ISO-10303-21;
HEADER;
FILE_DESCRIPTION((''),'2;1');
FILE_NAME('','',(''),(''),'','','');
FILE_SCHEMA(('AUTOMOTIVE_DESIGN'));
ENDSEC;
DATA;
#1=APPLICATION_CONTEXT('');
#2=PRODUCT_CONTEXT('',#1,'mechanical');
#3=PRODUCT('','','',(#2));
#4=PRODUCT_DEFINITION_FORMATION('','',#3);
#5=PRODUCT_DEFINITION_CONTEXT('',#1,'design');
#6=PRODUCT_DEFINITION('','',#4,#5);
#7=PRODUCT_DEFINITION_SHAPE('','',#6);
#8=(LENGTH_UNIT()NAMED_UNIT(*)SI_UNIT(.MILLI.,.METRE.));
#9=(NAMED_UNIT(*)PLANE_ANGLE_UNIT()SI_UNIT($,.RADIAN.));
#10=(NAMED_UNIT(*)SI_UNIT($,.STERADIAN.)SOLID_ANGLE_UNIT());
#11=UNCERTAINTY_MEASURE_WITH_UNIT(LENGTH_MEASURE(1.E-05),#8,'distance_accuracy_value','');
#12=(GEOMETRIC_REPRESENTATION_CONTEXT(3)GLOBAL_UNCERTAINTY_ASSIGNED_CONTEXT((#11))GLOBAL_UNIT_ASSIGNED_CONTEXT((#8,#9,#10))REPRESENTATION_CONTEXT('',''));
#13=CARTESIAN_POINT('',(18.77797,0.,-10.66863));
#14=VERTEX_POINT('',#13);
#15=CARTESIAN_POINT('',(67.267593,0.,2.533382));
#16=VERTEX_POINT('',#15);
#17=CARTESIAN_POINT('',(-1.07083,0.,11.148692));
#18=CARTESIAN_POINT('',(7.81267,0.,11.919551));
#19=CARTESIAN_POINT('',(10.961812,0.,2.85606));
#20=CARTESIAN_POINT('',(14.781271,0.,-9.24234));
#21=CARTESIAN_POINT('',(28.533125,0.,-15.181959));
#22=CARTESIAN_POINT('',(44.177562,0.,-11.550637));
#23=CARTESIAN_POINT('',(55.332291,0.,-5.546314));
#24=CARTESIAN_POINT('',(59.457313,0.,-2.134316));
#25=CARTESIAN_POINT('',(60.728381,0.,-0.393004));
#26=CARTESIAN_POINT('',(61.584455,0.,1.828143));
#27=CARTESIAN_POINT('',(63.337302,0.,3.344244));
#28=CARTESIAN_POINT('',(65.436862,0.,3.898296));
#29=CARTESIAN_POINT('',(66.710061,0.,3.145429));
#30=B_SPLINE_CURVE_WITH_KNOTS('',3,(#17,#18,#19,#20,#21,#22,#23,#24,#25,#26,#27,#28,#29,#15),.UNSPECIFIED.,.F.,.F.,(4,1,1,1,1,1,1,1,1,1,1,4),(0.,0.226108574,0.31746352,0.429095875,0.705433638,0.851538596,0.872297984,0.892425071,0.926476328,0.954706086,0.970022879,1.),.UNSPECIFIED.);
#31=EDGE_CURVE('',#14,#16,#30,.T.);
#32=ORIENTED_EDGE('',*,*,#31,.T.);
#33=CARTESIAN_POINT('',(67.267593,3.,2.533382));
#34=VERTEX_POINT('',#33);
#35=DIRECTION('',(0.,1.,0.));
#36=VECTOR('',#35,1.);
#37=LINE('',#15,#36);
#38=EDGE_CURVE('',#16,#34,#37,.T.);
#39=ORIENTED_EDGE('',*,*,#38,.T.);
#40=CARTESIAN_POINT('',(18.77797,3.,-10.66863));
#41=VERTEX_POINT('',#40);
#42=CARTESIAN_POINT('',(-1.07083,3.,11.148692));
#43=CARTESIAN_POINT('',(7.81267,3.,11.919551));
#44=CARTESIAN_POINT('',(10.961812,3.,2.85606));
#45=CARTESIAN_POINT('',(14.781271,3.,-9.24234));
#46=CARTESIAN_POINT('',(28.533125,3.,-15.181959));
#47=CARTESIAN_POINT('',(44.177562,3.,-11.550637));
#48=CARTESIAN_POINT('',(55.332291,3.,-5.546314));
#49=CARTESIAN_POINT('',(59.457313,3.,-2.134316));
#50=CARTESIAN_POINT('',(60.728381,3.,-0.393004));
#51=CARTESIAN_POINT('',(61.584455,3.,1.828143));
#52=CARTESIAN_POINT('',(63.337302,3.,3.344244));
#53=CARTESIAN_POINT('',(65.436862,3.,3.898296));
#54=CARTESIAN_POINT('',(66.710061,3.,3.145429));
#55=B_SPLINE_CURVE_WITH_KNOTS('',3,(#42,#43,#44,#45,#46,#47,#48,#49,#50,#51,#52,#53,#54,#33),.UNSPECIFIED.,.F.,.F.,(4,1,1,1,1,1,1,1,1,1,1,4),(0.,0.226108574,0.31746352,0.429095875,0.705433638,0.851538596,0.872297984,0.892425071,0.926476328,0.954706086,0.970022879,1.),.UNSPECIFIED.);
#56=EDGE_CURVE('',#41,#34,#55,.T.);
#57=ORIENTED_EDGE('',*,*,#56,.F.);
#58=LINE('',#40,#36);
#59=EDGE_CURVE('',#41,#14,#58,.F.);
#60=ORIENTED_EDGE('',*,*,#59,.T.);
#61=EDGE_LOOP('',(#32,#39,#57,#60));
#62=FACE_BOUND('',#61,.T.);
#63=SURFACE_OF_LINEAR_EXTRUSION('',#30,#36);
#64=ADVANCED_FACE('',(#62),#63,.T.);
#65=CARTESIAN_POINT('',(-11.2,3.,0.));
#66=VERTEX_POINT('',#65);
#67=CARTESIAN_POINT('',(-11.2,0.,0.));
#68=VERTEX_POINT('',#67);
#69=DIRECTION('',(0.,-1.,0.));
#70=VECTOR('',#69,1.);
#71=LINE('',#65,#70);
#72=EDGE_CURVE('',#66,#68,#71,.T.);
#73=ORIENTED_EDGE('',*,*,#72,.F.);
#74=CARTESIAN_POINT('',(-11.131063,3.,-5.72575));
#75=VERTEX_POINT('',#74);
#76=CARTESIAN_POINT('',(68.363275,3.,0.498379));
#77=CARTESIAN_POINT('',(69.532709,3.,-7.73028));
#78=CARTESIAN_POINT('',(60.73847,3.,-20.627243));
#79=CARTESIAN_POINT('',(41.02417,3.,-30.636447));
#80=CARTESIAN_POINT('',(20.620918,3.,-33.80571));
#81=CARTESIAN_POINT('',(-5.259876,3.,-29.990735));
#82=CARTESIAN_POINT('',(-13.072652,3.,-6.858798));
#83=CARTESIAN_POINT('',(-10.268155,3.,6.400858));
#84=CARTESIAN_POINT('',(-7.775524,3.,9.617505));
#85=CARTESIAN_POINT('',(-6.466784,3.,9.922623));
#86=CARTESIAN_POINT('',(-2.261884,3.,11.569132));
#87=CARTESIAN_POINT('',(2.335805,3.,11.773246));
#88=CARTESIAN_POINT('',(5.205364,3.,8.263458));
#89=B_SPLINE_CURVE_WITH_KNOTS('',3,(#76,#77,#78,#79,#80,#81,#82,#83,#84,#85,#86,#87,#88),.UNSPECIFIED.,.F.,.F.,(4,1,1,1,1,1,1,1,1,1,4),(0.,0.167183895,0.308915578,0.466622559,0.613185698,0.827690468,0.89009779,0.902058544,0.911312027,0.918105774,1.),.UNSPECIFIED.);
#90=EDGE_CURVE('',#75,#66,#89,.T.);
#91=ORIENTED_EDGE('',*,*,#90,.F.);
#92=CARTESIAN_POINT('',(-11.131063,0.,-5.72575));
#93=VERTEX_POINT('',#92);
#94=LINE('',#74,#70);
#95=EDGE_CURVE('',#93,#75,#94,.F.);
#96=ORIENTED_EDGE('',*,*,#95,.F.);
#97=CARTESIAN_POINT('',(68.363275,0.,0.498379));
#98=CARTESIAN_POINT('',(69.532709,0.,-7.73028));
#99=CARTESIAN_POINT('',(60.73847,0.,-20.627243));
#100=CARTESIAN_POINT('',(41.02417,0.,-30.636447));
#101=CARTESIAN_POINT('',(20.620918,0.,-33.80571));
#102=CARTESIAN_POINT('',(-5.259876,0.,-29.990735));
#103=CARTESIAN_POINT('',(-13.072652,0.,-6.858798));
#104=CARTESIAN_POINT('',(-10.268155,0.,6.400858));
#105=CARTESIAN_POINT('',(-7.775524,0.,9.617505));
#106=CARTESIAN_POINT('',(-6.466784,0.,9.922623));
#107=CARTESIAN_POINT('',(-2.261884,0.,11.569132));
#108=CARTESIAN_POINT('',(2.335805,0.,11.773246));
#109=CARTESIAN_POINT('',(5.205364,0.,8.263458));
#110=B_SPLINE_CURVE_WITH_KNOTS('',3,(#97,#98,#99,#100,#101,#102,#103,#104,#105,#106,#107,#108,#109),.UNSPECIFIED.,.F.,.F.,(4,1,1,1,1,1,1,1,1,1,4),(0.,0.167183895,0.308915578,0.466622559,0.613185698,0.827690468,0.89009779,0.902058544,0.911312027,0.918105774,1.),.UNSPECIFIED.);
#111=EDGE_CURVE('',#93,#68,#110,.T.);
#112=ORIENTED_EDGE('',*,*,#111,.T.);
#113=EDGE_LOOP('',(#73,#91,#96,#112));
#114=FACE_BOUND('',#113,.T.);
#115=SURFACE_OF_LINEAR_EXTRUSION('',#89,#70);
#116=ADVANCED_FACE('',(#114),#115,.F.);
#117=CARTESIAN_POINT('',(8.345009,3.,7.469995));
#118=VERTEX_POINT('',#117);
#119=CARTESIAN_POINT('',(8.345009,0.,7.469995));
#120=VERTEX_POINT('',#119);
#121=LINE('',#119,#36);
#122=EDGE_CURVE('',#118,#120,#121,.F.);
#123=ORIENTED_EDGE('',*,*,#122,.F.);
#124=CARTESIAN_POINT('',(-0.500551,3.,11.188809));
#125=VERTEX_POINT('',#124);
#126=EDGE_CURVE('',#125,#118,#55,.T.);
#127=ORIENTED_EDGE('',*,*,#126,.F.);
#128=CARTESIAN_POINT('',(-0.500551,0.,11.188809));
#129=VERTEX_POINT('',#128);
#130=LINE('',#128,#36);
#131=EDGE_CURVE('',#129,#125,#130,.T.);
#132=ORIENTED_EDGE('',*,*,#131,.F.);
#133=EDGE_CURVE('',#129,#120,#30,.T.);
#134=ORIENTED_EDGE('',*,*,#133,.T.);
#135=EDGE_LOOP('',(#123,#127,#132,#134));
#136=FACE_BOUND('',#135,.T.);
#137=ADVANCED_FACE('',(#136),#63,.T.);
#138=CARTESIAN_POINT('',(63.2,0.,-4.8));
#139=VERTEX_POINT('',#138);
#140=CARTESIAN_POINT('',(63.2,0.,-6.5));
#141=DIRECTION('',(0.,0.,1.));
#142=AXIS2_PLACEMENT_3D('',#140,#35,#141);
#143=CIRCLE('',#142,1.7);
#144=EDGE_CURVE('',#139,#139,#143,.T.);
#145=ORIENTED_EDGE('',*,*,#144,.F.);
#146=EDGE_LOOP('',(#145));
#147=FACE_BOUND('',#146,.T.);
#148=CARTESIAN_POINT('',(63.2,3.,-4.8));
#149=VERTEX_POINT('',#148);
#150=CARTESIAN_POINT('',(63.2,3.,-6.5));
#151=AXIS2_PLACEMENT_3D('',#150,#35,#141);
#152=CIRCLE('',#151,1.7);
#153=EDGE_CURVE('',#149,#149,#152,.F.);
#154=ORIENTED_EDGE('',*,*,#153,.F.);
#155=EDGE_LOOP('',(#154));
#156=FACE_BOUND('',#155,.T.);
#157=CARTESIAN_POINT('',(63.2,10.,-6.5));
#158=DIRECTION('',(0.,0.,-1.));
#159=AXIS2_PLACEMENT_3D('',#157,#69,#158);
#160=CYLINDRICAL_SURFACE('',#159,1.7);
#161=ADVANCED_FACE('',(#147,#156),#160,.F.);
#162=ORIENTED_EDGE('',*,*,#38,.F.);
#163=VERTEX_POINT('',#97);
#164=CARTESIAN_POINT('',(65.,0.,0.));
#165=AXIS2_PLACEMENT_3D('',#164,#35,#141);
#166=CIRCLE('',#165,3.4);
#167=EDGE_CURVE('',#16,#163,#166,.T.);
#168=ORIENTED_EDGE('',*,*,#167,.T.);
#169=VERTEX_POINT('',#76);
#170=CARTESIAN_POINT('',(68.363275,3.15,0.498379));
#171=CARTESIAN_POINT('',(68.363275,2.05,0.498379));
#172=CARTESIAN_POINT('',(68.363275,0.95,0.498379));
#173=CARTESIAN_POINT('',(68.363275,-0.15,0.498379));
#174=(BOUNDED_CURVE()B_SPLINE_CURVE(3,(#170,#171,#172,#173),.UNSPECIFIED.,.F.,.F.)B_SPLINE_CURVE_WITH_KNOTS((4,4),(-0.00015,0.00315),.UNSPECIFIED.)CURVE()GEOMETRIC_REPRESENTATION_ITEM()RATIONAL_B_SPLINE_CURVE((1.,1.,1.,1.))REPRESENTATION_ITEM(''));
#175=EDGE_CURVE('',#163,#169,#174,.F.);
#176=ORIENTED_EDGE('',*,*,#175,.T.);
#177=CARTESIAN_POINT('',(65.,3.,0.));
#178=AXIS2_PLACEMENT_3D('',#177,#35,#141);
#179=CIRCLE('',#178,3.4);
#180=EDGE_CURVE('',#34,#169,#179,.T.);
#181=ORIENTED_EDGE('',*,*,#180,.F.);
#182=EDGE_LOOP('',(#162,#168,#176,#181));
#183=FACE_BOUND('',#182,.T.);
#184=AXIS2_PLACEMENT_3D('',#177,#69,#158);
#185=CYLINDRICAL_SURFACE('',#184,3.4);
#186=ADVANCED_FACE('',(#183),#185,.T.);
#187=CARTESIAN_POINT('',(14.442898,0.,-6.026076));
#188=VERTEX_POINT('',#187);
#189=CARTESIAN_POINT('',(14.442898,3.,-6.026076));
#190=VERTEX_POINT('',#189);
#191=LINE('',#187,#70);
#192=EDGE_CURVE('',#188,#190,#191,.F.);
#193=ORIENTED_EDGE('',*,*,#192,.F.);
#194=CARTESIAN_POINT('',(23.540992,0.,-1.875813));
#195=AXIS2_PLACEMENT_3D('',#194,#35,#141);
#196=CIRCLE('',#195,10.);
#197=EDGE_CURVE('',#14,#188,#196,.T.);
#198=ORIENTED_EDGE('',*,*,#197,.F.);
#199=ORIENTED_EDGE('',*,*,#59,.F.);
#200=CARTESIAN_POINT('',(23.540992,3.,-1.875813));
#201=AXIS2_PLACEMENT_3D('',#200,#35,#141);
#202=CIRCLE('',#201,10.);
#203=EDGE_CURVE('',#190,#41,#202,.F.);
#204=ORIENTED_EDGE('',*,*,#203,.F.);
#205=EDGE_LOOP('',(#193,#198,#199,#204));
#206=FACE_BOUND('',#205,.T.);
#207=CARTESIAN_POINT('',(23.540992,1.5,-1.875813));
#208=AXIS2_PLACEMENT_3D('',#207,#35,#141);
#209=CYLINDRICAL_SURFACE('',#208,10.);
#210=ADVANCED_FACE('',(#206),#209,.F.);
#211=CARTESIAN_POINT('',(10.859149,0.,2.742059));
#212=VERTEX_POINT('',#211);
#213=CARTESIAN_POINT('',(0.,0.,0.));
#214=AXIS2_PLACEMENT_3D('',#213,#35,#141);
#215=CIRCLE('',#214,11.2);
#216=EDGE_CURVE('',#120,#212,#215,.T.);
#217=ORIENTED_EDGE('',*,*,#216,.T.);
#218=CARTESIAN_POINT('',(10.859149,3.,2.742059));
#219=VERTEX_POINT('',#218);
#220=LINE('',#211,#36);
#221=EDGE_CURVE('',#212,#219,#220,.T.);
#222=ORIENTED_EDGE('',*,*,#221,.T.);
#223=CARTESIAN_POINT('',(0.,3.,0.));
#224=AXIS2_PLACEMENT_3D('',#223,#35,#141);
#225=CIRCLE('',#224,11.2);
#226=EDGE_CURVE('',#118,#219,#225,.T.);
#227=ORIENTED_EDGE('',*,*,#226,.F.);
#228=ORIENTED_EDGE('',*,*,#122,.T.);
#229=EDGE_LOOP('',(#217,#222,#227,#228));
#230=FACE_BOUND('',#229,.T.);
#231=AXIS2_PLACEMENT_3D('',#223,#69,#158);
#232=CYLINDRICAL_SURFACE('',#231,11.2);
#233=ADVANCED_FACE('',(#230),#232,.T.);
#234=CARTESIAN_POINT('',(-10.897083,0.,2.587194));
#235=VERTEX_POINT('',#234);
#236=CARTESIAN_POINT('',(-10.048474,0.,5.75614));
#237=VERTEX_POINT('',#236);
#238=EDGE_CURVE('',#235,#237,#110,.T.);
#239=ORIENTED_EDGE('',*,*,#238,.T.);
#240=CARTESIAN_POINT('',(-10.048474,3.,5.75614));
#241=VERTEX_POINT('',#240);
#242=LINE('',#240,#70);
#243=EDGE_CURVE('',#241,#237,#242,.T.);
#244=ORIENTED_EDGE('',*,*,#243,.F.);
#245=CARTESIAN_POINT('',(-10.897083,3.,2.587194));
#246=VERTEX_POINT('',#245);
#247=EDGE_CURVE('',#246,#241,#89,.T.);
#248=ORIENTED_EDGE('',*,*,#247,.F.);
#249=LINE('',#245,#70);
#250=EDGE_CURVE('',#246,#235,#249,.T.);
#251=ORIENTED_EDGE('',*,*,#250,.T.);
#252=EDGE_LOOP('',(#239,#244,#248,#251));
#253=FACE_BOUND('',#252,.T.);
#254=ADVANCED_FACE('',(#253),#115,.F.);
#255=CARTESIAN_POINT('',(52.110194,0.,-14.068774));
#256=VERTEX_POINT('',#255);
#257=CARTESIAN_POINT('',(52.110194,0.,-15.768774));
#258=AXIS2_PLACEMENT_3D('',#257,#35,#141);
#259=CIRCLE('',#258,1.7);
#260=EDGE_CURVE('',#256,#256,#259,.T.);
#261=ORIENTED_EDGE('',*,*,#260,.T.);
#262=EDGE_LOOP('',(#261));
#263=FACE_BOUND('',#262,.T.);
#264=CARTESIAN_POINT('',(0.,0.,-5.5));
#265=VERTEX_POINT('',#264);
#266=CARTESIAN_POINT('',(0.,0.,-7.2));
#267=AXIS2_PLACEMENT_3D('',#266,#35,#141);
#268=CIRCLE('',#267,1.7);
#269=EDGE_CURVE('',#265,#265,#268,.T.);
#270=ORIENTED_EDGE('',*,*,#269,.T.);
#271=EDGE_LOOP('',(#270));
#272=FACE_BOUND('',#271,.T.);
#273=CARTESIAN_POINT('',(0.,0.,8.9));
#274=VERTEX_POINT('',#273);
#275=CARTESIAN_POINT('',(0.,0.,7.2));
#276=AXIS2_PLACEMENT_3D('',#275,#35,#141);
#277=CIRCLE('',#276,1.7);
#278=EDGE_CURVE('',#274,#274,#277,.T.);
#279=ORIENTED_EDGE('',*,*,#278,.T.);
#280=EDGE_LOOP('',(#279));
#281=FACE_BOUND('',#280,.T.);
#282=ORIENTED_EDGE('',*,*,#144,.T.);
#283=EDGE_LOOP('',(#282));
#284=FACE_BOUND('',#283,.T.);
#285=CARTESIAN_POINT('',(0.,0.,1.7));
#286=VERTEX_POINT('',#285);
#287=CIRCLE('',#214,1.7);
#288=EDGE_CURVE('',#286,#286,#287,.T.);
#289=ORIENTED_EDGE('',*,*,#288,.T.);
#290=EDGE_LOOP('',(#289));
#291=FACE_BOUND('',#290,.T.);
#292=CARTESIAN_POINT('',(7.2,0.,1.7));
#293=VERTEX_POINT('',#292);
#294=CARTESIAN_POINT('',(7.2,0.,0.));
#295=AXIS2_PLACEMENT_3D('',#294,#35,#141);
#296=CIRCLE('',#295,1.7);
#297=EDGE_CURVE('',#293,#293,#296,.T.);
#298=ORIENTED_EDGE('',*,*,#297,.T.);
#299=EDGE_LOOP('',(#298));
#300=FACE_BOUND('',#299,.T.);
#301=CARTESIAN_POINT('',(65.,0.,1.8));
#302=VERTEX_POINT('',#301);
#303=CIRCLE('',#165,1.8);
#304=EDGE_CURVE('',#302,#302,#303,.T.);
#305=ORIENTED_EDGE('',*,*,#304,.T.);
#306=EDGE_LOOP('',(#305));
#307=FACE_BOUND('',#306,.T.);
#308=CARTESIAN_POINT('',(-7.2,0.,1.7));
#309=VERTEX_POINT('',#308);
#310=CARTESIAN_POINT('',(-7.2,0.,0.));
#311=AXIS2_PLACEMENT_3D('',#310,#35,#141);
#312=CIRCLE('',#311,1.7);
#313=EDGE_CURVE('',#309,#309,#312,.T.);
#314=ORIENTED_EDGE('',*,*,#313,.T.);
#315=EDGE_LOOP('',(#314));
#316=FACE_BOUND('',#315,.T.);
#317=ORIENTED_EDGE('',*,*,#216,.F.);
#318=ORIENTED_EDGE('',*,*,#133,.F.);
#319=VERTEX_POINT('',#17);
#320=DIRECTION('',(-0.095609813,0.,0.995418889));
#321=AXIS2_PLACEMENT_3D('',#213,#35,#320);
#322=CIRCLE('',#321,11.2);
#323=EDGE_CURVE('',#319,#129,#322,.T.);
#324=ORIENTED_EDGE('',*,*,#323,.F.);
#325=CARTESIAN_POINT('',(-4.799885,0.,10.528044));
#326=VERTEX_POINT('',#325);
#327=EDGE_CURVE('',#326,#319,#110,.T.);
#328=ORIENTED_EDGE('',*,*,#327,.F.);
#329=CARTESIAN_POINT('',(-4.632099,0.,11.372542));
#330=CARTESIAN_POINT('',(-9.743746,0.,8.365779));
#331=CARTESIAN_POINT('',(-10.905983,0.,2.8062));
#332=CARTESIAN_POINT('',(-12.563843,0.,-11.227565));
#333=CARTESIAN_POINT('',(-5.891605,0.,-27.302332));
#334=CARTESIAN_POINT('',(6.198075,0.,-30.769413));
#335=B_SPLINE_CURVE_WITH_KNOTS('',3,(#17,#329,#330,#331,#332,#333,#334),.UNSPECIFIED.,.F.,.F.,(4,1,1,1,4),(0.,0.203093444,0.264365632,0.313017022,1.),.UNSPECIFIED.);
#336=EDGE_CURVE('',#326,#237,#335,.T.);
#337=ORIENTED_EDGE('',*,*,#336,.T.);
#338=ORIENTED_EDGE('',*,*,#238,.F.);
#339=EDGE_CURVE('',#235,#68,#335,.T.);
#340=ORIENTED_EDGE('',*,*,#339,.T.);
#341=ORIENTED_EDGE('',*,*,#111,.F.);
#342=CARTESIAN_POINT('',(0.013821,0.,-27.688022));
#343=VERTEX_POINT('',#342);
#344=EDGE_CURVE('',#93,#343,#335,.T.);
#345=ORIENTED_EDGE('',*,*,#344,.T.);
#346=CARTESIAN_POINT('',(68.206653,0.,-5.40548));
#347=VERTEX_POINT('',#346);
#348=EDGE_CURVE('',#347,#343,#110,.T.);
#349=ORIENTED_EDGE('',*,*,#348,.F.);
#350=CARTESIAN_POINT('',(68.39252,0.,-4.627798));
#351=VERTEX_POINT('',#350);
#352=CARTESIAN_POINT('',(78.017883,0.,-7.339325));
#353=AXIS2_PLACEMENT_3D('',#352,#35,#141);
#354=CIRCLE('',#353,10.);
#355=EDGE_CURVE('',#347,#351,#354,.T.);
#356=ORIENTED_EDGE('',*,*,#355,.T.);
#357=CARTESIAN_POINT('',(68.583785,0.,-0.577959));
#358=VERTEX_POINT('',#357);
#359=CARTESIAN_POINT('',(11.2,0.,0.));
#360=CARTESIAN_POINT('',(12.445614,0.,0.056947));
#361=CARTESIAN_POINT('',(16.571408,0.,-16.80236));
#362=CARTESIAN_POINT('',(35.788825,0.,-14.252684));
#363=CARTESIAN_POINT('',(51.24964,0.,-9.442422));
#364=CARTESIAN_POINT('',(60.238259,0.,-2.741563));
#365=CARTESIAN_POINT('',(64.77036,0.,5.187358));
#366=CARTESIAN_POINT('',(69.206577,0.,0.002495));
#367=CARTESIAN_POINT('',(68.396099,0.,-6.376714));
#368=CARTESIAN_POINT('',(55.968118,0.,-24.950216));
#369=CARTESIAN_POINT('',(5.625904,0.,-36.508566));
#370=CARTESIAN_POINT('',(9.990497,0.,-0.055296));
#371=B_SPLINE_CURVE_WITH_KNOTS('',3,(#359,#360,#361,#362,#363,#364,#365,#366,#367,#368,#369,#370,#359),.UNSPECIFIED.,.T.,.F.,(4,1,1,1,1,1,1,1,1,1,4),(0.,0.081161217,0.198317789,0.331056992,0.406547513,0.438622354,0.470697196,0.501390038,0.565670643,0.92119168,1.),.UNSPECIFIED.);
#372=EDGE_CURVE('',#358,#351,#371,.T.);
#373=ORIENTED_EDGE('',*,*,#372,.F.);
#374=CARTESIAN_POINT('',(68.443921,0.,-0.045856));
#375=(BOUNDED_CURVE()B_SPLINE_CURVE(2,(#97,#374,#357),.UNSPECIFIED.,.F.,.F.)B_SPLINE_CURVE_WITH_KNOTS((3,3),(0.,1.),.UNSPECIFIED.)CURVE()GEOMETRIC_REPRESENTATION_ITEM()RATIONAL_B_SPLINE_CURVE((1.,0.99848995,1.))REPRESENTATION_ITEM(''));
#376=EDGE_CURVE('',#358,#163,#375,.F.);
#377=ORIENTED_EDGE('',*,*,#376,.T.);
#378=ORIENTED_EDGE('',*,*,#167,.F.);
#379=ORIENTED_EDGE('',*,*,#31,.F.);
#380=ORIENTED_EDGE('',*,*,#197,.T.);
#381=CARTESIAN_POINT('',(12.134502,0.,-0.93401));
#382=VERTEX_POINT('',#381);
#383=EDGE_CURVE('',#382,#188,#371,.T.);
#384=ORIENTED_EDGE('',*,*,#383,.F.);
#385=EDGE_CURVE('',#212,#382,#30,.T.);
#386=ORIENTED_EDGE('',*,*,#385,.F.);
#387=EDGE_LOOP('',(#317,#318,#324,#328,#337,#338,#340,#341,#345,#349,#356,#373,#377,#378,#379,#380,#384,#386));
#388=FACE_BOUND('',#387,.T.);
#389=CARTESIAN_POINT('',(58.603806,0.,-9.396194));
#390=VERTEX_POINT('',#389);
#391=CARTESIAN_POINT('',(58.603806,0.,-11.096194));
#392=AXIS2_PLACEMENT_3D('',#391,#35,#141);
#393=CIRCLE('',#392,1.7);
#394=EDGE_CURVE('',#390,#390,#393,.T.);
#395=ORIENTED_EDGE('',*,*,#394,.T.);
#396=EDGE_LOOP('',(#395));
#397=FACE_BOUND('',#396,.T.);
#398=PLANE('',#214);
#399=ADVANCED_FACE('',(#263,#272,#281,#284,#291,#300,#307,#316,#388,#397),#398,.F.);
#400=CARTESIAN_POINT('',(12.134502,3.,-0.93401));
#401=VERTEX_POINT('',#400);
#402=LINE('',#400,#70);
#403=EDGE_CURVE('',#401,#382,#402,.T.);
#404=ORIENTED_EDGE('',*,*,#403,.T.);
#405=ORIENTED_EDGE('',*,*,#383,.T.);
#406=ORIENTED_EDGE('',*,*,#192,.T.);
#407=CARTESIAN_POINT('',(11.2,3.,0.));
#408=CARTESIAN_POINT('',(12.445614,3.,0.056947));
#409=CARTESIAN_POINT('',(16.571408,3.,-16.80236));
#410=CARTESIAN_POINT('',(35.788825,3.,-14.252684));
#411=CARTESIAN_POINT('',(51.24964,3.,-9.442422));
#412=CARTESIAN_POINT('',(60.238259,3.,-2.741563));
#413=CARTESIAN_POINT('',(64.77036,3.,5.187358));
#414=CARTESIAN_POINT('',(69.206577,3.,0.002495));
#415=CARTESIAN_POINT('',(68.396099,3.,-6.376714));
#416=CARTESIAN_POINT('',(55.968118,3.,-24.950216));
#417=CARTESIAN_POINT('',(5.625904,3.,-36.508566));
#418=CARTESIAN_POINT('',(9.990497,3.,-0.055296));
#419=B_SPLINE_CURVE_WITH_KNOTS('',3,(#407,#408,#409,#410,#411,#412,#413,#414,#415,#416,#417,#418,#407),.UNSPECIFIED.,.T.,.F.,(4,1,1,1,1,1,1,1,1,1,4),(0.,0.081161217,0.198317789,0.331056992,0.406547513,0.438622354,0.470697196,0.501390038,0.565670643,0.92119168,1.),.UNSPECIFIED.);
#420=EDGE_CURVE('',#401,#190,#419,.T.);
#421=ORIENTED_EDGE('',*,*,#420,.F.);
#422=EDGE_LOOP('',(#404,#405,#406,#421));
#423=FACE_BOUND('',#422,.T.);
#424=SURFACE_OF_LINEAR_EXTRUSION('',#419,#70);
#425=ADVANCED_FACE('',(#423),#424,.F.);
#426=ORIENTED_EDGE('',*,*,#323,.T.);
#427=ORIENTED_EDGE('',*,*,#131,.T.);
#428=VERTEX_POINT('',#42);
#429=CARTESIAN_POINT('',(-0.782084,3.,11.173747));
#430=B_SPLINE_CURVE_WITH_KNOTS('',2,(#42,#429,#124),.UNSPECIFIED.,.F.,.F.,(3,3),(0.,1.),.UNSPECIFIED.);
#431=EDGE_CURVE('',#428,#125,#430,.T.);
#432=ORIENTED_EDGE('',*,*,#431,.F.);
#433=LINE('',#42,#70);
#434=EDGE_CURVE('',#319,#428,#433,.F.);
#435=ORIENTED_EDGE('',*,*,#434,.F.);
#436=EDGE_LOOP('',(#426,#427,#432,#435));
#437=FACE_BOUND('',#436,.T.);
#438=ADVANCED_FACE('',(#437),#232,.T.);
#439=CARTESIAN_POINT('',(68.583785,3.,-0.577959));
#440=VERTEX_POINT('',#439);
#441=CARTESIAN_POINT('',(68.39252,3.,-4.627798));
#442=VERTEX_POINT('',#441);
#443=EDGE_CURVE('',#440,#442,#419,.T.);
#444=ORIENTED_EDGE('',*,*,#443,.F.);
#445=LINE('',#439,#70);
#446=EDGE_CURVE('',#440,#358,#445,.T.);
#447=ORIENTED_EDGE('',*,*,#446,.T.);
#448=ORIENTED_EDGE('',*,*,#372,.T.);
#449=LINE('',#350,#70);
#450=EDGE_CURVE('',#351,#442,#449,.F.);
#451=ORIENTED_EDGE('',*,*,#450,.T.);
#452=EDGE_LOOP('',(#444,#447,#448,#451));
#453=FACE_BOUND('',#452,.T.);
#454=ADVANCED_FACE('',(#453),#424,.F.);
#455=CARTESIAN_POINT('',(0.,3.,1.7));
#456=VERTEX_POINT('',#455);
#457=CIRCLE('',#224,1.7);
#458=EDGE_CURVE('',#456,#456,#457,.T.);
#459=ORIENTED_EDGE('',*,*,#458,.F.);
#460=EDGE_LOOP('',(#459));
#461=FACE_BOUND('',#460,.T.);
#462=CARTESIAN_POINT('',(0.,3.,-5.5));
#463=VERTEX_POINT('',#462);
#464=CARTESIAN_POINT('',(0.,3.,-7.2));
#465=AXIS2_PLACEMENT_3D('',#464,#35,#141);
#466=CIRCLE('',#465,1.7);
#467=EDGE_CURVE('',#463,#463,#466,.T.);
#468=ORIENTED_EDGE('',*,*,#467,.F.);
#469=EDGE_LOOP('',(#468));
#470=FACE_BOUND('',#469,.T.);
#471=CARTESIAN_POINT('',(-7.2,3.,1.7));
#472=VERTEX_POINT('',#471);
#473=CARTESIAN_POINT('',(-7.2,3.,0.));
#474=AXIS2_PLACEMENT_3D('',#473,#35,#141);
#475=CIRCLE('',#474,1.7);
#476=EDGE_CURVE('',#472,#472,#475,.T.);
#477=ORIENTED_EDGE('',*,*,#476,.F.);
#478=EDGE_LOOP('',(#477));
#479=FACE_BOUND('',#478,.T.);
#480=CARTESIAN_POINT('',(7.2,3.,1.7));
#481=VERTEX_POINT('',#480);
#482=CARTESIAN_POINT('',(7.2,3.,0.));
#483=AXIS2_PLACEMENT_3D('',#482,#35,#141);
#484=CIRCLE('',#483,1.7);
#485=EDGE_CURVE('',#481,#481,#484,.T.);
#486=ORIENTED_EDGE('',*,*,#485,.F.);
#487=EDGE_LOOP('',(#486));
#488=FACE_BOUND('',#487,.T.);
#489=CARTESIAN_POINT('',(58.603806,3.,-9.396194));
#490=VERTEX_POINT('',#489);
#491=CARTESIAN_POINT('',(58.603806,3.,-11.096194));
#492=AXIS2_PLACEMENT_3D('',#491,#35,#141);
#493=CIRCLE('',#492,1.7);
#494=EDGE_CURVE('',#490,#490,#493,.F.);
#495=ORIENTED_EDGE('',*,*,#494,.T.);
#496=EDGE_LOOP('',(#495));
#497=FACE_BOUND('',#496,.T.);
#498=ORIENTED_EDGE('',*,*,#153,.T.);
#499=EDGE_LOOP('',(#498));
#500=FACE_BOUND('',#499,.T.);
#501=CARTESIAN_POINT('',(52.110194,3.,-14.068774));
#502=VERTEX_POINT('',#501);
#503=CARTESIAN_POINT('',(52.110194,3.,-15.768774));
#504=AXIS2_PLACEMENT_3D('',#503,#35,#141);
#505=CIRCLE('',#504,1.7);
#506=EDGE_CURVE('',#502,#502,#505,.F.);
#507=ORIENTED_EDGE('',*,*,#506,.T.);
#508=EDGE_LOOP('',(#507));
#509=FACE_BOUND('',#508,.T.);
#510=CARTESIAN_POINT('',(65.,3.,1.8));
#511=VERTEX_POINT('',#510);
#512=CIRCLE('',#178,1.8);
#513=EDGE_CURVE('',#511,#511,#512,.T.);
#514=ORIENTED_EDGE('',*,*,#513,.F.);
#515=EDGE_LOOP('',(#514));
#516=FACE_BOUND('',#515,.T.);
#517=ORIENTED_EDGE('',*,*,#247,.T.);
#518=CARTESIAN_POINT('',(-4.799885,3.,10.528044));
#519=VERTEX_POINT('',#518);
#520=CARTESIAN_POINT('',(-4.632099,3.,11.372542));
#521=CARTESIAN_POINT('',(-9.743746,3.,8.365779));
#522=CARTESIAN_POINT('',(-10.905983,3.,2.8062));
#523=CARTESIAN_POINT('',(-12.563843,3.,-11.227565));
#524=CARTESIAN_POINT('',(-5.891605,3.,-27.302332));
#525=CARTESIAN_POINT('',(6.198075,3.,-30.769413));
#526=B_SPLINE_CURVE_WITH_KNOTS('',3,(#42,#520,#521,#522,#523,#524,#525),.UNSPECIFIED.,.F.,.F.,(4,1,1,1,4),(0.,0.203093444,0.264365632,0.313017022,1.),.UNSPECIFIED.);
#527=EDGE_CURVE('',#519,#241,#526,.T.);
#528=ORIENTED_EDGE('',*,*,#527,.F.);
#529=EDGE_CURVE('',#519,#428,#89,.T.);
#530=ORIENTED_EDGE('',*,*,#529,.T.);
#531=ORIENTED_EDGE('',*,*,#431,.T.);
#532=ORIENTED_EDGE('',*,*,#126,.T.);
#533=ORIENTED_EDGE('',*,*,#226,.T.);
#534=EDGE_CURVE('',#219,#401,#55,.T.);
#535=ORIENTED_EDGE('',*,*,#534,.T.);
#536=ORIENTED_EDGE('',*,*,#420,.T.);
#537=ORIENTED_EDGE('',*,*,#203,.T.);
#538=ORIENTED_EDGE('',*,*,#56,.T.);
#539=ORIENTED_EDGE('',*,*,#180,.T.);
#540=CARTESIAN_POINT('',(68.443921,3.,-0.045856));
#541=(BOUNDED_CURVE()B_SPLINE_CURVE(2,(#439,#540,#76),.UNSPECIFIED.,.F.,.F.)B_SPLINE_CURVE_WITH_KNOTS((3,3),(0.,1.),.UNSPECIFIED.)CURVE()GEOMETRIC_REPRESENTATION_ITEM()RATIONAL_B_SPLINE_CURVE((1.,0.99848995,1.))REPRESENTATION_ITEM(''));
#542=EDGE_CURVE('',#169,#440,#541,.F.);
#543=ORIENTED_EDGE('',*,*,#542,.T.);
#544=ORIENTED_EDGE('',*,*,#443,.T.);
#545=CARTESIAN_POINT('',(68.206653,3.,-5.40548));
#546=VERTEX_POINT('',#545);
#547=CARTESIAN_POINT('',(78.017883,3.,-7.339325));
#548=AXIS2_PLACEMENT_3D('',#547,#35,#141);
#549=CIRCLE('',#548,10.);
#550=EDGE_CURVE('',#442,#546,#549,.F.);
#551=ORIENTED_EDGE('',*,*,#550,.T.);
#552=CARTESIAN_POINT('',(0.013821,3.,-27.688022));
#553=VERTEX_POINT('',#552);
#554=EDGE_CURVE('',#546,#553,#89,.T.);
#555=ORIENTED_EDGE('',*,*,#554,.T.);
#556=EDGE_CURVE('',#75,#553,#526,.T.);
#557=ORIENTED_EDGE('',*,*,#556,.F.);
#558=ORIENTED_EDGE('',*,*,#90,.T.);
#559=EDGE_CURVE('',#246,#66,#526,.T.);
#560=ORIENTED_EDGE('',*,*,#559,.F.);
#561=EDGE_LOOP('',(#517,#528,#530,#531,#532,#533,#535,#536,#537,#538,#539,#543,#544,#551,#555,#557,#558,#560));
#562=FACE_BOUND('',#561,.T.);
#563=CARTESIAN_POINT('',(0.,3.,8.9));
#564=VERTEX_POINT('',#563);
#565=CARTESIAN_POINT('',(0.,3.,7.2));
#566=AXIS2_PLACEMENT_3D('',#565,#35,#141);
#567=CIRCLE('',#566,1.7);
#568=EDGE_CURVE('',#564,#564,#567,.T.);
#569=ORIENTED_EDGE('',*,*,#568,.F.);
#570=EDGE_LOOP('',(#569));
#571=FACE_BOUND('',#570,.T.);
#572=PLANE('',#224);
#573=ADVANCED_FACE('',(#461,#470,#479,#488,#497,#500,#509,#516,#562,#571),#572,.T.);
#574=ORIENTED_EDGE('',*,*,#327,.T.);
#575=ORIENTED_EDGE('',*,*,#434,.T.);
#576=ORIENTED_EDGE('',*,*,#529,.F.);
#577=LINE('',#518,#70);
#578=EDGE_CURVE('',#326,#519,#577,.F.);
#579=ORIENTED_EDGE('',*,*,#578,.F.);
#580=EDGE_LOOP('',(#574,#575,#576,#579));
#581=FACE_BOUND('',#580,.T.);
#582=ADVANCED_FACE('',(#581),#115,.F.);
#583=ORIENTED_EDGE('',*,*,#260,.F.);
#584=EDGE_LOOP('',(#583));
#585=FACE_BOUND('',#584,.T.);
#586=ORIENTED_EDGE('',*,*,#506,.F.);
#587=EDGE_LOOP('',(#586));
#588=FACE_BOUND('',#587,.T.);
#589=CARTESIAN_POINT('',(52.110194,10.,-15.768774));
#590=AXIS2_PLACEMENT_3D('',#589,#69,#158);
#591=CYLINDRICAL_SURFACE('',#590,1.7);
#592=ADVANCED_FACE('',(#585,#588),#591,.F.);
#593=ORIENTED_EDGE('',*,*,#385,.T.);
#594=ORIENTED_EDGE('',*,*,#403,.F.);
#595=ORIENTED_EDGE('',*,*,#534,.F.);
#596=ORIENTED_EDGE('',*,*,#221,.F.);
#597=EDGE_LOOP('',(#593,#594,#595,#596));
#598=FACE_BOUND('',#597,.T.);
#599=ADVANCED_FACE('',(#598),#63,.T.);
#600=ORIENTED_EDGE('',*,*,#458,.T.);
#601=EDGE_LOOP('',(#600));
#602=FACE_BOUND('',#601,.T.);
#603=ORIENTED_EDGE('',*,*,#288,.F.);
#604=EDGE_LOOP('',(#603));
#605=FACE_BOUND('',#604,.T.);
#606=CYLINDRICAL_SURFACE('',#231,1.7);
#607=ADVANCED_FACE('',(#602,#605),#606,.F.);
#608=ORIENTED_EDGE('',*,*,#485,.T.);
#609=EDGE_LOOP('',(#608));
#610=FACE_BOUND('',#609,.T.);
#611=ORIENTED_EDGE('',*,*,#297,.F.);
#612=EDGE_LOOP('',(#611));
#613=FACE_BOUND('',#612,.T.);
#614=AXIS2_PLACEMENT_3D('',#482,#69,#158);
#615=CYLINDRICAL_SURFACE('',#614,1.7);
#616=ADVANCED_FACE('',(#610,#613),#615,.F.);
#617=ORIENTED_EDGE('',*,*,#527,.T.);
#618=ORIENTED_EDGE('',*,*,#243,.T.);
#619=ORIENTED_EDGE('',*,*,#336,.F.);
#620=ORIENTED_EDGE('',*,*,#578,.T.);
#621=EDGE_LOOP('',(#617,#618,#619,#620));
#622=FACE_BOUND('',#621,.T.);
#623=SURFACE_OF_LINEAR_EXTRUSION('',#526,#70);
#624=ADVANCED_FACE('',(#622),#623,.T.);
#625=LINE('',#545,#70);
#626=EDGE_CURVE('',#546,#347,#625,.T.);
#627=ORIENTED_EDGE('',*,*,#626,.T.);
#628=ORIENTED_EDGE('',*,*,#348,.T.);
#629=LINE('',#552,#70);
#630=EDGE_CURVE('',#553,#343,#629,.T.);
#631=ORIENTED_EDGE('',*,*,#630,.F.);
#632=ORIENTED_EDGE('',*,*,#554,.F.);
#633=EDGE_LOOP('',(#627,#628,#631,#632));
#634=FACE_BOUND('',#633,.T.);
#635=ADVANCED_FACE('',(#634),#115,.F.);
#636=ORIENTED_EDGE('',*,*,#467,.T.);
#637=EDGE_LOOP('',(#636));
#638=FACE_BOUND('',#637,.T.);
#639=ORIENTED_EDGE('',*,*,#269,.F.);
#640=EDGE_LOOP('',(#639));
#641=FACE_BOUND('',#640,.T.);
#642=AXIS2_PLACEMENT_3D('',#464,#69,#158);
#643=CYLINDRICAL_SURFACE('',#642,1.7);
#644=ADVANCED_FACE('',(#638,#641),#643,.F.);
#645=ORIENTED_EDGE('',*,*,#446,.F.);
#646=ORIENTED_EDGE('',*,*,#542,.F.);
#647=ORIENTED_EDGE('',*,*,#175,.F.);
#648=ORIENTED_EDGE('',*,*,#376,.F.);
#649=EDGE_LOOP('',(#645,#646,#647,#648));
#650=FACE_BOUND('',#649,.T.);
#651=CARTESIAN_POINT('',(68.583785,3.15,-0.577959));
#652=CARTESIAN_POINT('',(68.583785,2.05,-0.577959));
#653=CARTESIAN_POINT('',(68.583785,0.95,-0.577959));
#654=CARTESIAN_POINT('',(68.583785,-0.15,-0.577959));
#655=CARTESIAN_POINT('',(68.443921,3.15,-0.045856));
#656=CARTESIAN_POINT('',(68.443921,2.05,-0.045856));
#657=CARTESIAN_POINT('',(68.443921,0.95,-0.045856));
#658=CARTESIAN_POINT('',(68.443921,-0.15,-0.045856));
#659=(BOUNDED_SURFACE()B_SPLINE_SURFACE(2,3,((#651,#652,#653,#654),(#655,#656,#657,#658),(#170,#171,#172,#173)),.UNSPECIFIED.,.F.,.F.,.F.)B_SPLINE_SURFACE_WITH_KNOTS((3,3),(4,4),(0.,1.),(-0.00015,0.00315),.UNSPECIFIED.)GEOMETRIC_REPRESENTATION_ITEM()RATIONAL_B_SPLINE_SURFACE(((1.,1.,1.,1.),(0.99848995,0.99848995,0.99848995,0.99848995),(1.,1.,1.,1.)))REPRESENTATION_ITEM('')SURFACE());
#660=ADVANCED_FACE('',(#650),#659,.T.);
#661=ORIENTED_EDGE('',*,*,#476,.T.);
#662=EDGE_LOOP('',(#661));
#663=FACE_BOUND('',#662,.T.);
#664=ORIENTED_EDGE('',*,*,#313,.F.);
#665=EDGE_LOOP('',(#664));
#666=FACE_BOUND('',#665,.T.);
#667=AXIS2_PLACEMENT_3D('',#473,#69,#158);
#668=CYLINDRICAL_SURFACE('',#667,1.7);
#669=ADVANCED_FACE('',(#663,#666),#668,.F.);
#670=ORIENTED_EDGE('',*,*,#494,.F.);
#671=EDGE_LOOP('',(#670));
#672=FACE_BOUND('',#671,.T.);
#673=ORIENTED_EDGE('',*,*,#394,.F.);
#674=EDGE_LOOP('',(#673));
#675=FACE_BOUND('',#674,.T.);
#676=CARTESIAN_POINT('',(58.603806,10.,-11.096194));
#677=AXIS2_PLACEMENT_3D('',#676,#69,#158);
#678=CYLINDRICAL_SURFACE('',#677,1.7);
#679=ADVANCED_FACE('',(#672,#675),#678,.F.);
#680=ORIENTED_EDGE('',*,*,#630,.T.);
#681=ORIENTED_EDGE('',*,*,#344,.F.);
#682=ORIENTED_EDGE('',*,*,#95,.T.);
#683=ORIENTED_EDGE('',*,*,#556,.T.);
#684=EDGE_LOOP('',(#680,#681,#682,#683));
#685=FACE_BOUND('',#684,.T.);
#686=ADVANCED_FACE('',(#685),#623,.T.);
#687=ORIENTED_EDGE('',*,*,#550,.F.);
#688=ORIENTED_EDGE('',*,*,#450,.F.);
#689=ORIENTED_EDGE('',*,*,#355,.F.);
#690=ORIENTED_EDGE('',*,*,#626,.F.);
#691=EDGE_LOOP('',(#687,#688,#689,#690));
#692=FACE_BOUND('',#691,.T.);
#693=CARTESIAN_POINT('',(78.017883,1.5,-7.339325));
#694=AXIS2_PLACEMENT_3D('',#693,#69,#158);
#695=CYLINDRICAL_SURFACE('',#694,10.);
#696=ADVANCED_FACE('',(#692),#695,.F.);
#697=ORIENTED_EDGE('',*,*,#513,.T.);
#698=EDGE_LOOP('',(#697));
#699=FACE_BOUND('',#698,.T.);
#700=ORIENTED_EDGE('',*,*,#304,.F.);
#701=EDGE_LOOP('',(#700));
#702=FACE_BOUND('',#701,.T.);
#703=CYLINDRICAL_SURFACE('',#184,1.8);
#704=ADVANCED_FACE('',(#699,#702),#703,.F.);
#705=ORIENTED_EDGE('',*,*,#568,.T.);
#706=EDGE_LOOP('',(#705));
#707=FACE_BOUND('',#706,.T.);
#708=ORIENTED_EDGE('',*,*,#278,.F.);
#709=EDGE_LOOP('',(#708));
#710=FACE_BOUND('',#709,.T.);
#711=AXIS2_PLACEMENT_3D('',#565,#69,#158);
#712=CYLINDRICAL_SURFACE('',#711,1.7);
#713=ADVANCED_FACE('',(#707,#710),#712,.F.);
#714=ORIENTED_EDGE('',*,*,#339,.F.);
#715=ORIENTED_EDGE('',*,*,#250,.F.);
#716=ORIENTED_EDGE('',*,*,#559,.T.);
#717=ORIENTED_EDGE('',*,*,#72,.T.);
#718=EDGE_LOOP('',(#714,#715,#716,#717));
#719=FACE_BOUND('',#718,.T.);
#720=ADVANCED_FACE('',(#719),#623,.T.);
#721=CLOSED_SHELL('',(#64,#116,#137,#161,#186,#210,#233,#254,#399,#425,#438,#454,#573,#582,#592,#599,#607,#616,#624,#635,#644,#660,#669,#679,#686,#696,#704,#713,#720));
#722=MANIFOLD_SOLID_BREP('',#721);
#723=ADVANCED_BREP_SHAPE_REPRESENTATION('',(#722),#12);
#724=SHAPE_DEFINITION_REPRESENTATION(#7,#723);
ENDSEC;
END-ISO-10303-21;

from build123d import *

# Parameters (mm, degrees)
SKETCH_1_R          = 1.7
EXTRUDE_1_DEPTH     = 3
CUT_EXTRUDE_3_DEPTH = 3
SKETCH_3_R          = 1.7
EXTRUDE_3_DEPTH     = 3
FILLET_9_R          = 10
FILLET_10_R         = 10
FILLET_14_R         = 20
EXTRUDE_4_DEPTH     = 3
CUT_EXTRUDE_4_DEPTH = 3
EXTRUDE_6_DEPTH     = 3
FILLET_20_R         = 10
FILLET_21_R         = 10
SKETCH_8_R          = 1.8
CUT_EXTRUDE_5_DEPTH = 3
SKETCH_9_R          = 1.7
CUT_EXTRUDE_6_DEPTH = 10


with BuildPart() as part:
    # 草图1 → 凸台-拉伸1 (new body)
    # profile 1 of 23: a face of its own
    with BuildSketch(Plane(origin=(0, 0, 0), x_dir=(1, 0, 0), z_dir=(0, 1, 0))):
        with BuildLine():
            ThreePointArc((5.5, 0), (7.2, 1.7), (8.9, 0))
            Line((8.9, 0), (11.2, 0))
            ThreePointArc((11.2, 0), (9.208552546, 6.375151763), (3.9424, 10.4832))
            ThreePointArc((3.9424, 10.4832), (2.837711379, 10.834546328), (1.702623658, 11.06982713))
            ThreePointArc((1.702623658, 11.06982713), (-7.292825757, 8.500276024), (-11.2, 0))
            Line((-11.2, 0), (-8.9, 0))
            ThreePointArc((-8.9, 0), (-7.2, 1.7), (-5.5, 0))
            Line((-5.5, 0), (-1.7, 0))
            ThreePointArc((-1.7, 0), (0, 1.7), (1.7, 0))
            Line((1.7, 0), (5.5, 0))
        make_face()
        with Locations(Location((0, 7.2, 0), (0, 0, 270))):
            Circle(SKETCH_1_R, mode=Mode.SUBTRACT)
    # profile 2 of 23: a face of its own
    with BuildSketch(Plane(origin=(0, 0, 0), x_dir=(1, 0, 0), z_dir=(0, 1, 0))):
        with BuildLine():
            Line((11.2, 0), (8.9, 0))
            ThreePointArc((8.9, 0), (7.2, -1.7), (5.5, 0))
            Line((5.5, 0), (1.7, 0))
            ThreePointArc((1.7, 0), (0, -1.7), (-1.7, 0))
            Line((-1.7, 0), (-5.5, 0))
            ThreePointArc((-5.5, 0), (-7.2, -1.7), (-8.9, 0))
            Line((-8.9, 0), (-11.2, 0))
            ThreePointArc((-11.2, 0), (0, -11.2), (11.2, 0))
        make_face()
        with Locations(Location((0, -7.2, 0), (0, 0, 270))):
            Circle(SKETCH_1_R, mode=Mode.SUBTRACT)
    # profile 3 of 23: a face of its own
    with BuildSketch(Plane(origin=(0, 0, 0), x_dir=(1, 0, 0), z_dir=(0, 1, 0))):
        with BuildLine():
            ThreePointArc((36.4, 25.2), (54.219090886, 17.819090886), (61.6, 0))
            ThreePointArc((61.6, 0), (62.902494764, 2.675905788), (65.812042226, 3.301603765))
            ThreePointArc((65.812042226, 3.301603765), (37.256587325, 36.064283099), (1.702623658, 11.06982713))
            ThreePointArc((1.702623658, 11.06982713), (2.837711379, 10.834546328), (3.9424, 10.4832))
            ThreePointArc((3.9424, 10.4832), (17.872608925, 22.911095384), (36.4, 25.2))
        make_face()
    # profile 4 of 23: a face of its own
    with BuildSketch(Plane(origin=(0, 0, 0), x_dir=(1, 0, 0), z_dir=(0, 1, 0))):
        with BuildLine():
            ThreePointArc((68.4, 0), (28.6, 39.8), (-11.2, 0))
            ThreePointArc((-11.2, 0), (-7.292825757, 8.500276024), (1.702623658, 11.06982713))
            ThreePointArc((1.702623658, 11.06982713), (37.256587325, 36.064283099), (65.812042226, 3.301603765))
            ThreePointArc((65.812042226, 3.301603765), (67.675905788, 2.097505236), (68.4, 0))
        make_face()
    # profile 5 of 23: a face of its own
    with BuildSketch(Plane(origin=(0, 0, 0), x_dir=(1, 0, 0), z_dir=(0, 1, 0))):
        with BuildLine():
            ThreePointArc((3.9424, 10.4832), (9.208552546, 6.375151763), (11.2, 0))
            ThreePointArc((11.2, 0), (18.580909114, 17.819090886), (36.4, 25.2))
            ThreePointArc((36.4, 25.2), (17.872608925, 22.911095384), (3.9424, 10.4832))
        make_face()
    # profile 6 of 23: a face of its own
    with BuildSketch(Plane(origin=(0, 0, 0), x_dir=(1, 0, 0), z_dir=(0, 1, 0))):
        with BuildLine():
            ThreePointArc((36.4, 25.2), (52.935943621, 16.535943621), (61.6, 0))
            ThreePointArc((61.6, 0), (54.219090886, 17.819090886), (36.4, 25.2))
        make_face()
    # profile 7 of 23: a face of its own
    with BuildSketch(Plane(origin=(0, 0, 0), x_dir=(1, 0, 0), z_dir=(0, 1, 0))):
        with BuildLine():
            ThreePointArc((65.812042226, 3.301603765), (62.902494764, 2.675905788), (61.6, 0))
            Line((61.6, 0), (63.3, 0))
            ThreePointArc((63.3, 0), (64.094189641, 1.438578324), (65.734714816, 1.533034291))
            ThreePointArc((65.734714816, 1.533034291), (65.785435342, 2.416791866), (65.812042226, 3.301603765))
        make_face()
    # profile 8 of 23: a face of its own
    with BuildSketch(Plane(origin=(0, 0, 0), x_dir=(1, 0, 0), z_dir=(0, 1, 0))):
        with BuildLine():
            Line((63.3, 0), (61.6, 0))
            ThreePointArc((61.6, 0), (62.595836944, -2.404163056), (65, -3.4))
            ThreePointArc((65, -3.4), (65.185488011, -2.534439938), (65.347308419, -1.664144483))
            ThreePointArc((65.347308419, -1.664144483), (63.927718394, -1.319171011), (63.3, 0))
        make_face()
    # profile 9 of 23: a face of its own
    with BuildSketch(Plane(origin=(0, 0, 0), x_dir=(1, 0, 0), z_dir=(0, 1, 0))):
        with BuildLine():
            ThreePointArc((65.347308419, -1.664144483), (65.185488011, -2.534439938), (65, -3.4))
            ThreePointArc((65, -3.4), (67.404163056, -2.404163056), (68.4, 0))
            Line((68.4, 0), (66.7, 0))
            ThreePointArc((66.7, 0), (66.319171011, -1.072281606), (65.347308419, -1.664144483))
        make_face()
    # profile 10 of 23: a face of its own
    with BuildSketch(Plane(origin=(0, 0, 0), x_dir=(1, 0, 0), z_dir=(0, 1, 0))):
        with BuildLine():
            ThreePointArc((68.4, 0), (67.675905788, 2.097505236), (65.812042226, 3.301603765))
            ThreePointArc((65.812042226, 3.301603765), (65.785435342, 2.416791866), (65.734714816, 1.533034291))
            ThreePointArc((65.734714816, 1.533034291), (66.438578324, 0.905810359), (66.7, 0))
            Line((66.7, 0), (68.4, 0))
        make_face()
    # profile 11 of 23: a face of its own
    with BuildSketch(Plane(origin=(0, 0, 0), x_dir=(1, 0, 0), z_dir=(0, 1, 0))):
        with BuildLine():
            ThreePointArc((65.812042226, 3.301603765), (62.902494764, 2.675905788), (61.6, 0))
            Line((61.6, 0), (63.3, 0))
            ThreePointArc((63.3, 0), (64.094189641, 1.438578324), (65.734714816, 1.533034291))
            ThreePointArc((65.734714816, 1.533034291), (65.785435342, 2.416791866), (65.812042226, 3.301603765))
        make_face()
    # profile 12 of 23: a face of its own
    with BuildSketch(Plane(origin=(0, 0, 0), x_dir=(1, 0, 0), z_dir=(0, 1, 0))):
        with BuildLine():
            Line((63.3, 0), (61.6, 0))
            ThreePointArc((61.6, 0), (62.595836944, -2.404163056), (65, -3.4))
            ThreePointArc((65, -3.4), (65.185488011, -2.534439938), (65.347308419, -1.664144483))
            ThreePointArc((65.347308419, -1.664144483), (63.927718394, -1.319171011), (63.3, 0))
        make_face()
    # profile 13 of 23: a face of its own
    with BuildSketch(Plane(origin=(0, 0, 0), x_dir=(1, 0, 0), z_dir=(0, 1, 0))):
        with BuildLine():
            ThreePointArc((65.347308419, -1.664144483), (65.185488011, -2.534439938), (65, -3.4))
            ThreePointArc((65, -3.4), (67.404163056, -2.404163056), (68.4, 0))
            Line((68.4, 0), (66.7, 0))
            ThreePointArc((66.7, 0), (66.319171011, -1.072281606), (65.347308419, -1.664144483))
        make_face()
    # profile 14 of 23: a face of its own
    with BuildSketch(Plane(origin=(0, 0, 0), x_dir=(1, 0, 0), z_dir=(0, 1, 0))):
        with BuildLine():
            ThreePointArc((68.4, 0), (67.675905788, 2.097505236), (65.812042226, 3.301603765))
            ThreePointArc((65.812042226, 3.301603765), (65.785435342, 2.416791866), (65.734714816, 1.533034291))
            ThreePointArc((65.734714816, 1.533034291), (66.438578324, 0.905810359), (66.7, 0))
            Line((66.7, 0), (68.4, 0))
        make_face()
    # profile 15 of 23: a face of its own
    with BuildSketch(Plane(origin=(0, 0, 0), x_dir=(1, 0, 0), z_dir=(0, 1, 0))):
        with BuildLine():
            ThreePointArc((65.812042226, 3.301603765), (62.902494764, 2.675905788), (61.6, 0))
            Line((61.6, 0), (63.3, 0))
            ThreePointArc((63.3, 0), (64.094189641, 1.438578324), (65.734714816, 1.533034291))
            ThreePointArc((65.734714816, 1.533034291), (65.785435342, 2.416791866), (65.812042226, 3.301603765))
        make_face()
    # profile 16 of 23: a face of its own
    with BuildSketch(Plane(origin=(0, 0, 0), x_dir=(1, 0, 0), z_dir=(0, 1, 0))):
        with BuildLine():
            Line((63.3, 0), (61.6, 0))
            ThreePointArc((61.6, 0), (62.595836944, -2.404163056), (65, -3.4))
            ThreePointArc((65, -3.4), (65.185488011, -2.534439938), (65.347308419, -1.664144483))
            ThreePointArc((65.347308419, -1.664144483), (63.927718394, -1.319171011), (63.3, 0))
        make_face()
    # profile 17 of 23: a face of its own
    with BuildSketch(Plane(origin=(0, 0, 0), x_dir=(1, 0, 0), z_dir=(0, 1, 0))):
        with BuildLine():
            ThreePointArc((65.347308419, -1.664144483), (65.185488011, -2.534439938), (65, -3.4))
            ThreePointArc((65, -3.4), (67.404163056, -2.404163056), (68.4, 0))
            Line((68.4, 0), (66.7, 0))
            ThreePointArc((66.7, 0), (66.319171011, -1.072281606), (65.347308419, -1.664144483))
        make_face()
    # profile 18 of 23: a face of its own
    with BuildSketch(Plane(origin=(0, 0, 0), x_dir=(1, 0, 0), z_dir=(0, 1, 0))):
        with BuildLine():
            ThreePointArc((68.4, 0), (67.675905788, 2.097505236), (65.812042226, 3.301603765))
            ThreePointArc((65.812042226, 3.301603765), (65.785435342, 2.416791866), (65.734714816, 1.533034291))
            ThreePointArc((65.734714816, 1.533034291), (66.438578324, 0.905810359), (66.7, 0))
            Line((66.7, 0), (68.4, 0))
        make_face()
    # profile 19 of 23: a face of its own
    with BuildSketch(Plane(origin=(0, 0, 0), x_dir=(1, 0, 0), z_dir=(0, 1, 0))):
        with BuildLine():
            ThreePointArc((65.812042226, 3.301603765), (62.902494764, 2.675905788), (61.6, 0))
            Line((61.6, 0), (63.3, 0))
            ThreePointArc((63.3, 0), (64.094189641, 1.438578324), (65.734714816, 1.533034291))
            ThreePointArc((65.734714816, 1.533034291), (65.785435342, 2.416791866), (65.812042226, 3.301603765))
        make_face()
    # profile 20 of 23: a face of its own
    with BuildSketch(Plane(origin=(0, 0, 0), x_dir=(1, 0, 0), z_dir=(0, 1, 0))):
        with BuildLine():
            Line((63.3, 0), (61.6, 0))
            ThreePointArc((61.6, 0), (62.595836944, -2.404163056), (65, -3.4))
            ThreePointArc((65, -3.4), (65.185488011, -2.534439938), (65.347308419, -1.664144483))
            ThreePointArc((65.347308419, -1.664144483), (63.927718394, -1.319171011), (63.3, 0))
        make_face()
    # profile 21 of 23: a face of its own
    with BuildSketch(Plane(origin=(0, 0, 0), x_dir=(1, 0, 0), z_dir=(0, 1, 0))):
        with BuildLine():
            ThreePointArc((65.347308419, -1.664144483), (65.185488011, -2.534439938), (65, -3.4))
            ThreePointArc((65, -3.4), (67.404163056, -2.404163056), (68.4, 0))
            Line((68.4, 0), (66.7, 0))
            ThreePointArc((66.7, 0), (66.319171011, -1.072281606), (65.347308419, -1.664144483))
        make_face()
    # profile 22 of 23: a face of its own
    with BuildSketch(Plane(origin=(0, 0, 0), x_dir=(1, 0, 0), z_dir=(0, 1, 0))):
        with BuildLine():
            ThreePointArc((68.4, 0), (67.675905788, 2.097505236), (65.812042226, 3.301603765))
            ThreePointArc((65.812042226, 3.301603765), (65.785435342, 2.416791866), (65.734714816, 1.533034291))
            ThreePointArc((65.734714816, 1.533034291), (66.438578324, 0.905810359), (66.7, 0))
            Line((66.7, 0), (68.4, 0))
        make_face()
    # profile 23 of 23: a face of its own
    with BuildSketch(Plane(origin=(0, 0, 0), x_dir=(1, 0, 0), z_dir=(0, 1, 0))):
        with BuildLine():
            ThreePointArc((36.4, 25.2), (18.580909114, 17.819090886), (11.2, 0))
            Line((11.2, 0), (61.6, 0))
            ThreePointArc((61.6, 0), (52.935943621, 16.535943621), (36.4, 25.2))
        make_face()
    extrude(amount=EXTRUDE_1_DEPTH)

    # 草图2 → 切除-拉伸3 (cut)
    with BuildSketch(Plane(origin=(0, 0, 0), x_dir=(1, 0, 0), z_dir=(0, 1, 0))):
        with BuildLine():
            Line((68.849577541, -5.350147526), (79.418255921, 26.798886108))
            Line((79.418255921, 26.798886108), (41.510241853, 45.721250392))
            Line((41.510241853, 45.721250392), (-3.738890131, 40.215411955))
            Line((-3.738890131, 40.215411955), (-19.437922992, 8.764841107))
            Line((-19.437922992, 8.764841107), (-13.991141015, 0))
            Line((-13.991141015, 0), (-11.2, 0))
            add(Edge.make_bspline(
                [(-11.2, 0), (-10.98570603, 9.511964616), (-6.790384007, 26.883440864), (30.257690246, 38.217930428), (69.370809067, 18.750082571), (68.849577541, -5.350147526)],
                knots=[0, 0, 0, 0, 0.267985993, 0.373432138, 1, 1, 1, 1], degree=3))
        make_face()
        with BuildLine():
            Line((11.2, 0), (61.6, 0))
            add(Edge.make_bspline(
                [(11.2, 0), (14.907237051, 24.878878013), (54.036546726, 12.1796003), (61.6, 0)],
                knots=[0, 0, 0, 0, 1, 1, 1, 1], degree=3))
        make_face()
    extrude(amount=CUT_EXTRUDE_3_DEPTH, mode=Mode.SUBTRACT)

    # 草图3 → 凸台-拉伸3 (add)
    with BuildSketch(Plane(origin=(0, 0, 0), x_dir=(1, 0, 0), z_dir=(0, 1, 0))):
        with Locations((65, 0)):
            Circle(SKETCH_3_R)
        with BuildLine():
            add(Edge.make_bspline(
                [(11.2, 0), (12.445613849, -0.056946933), (16.571407935, 16.802360329), (35.788824905, 14.252683642), (51.249640161, 9.442422377), (60.238259143, 2.741563074), (64.770360278, -5.187357593), (69.206577143, -0.002495132), (68.396099439, 6.376713893), (55.968118328, 24.950216267), (5.625904457, 36.508565927), (9.990497003, 0.055296018), (11.2, 0)],
                knots=[0, 0, 0, 0, 0.081161217, 0.198317789, 0.331056992, 0.406547513, 0.438622354, 0.470697196, 0.501390038, 0.565670643, 0.92119168, 1, 1, 1, 1], degree=3))
        make_face()
    extrude(amount=EXTRUDE_3_DEPTH)

    # 圆角9
    fillet_9_edges = [part.edges().sort_by_distance(p)[0] for p in [
        (17.059648691, 1.5, -10.662861344),
        (11.2, 1.5, 0),
    ]]
    fillet(fillet_9_edges, radius=FILLET_9_R)

    # 圆角10
    fillet_10_edges = [part.edges().sort_by_distance(p)[0] for p in [
        (68.4, 1.5, 0),
        (61.6, 1.5, 0),
    ]]
    fillet(fillet_10_edges, radius=FILLET_10_R)

    # 圆角14
    fillet_14_edges = [part.edges().sort_by_distance(p)[0] for p in [
        (59.25376733, 1.5, -16.163619627),
    ]]
    fillet(fillet_14_edges, radius=FILLET_14_R)

    # 草图4 → 凸台-拉伸4 (add)
    with BuildSketch(Plane(origin=(0, 0, 0), x_dir=(1, 0, 0), z_dir=(0, 1, 0))):
        with BuildLine():
            Line((5.205364174, -8.263457931), (-0.456140463, -10.299055104))
            Line((-0.456140463, -10.299055104), (-8.725753977, -3.492527057))
            Line((-8.725753977, -3.492527057), (-9.61632774, 1.660078286))
            Line((-9.61632774, 1.660078286), (-4.051653355, 17.482622071))
            Line((-4.051653355, 17.482622071), (31.159228128, 24.115259599))
            Line((31.159228128, 24.115259599), (64.810193891, 6.04933469))
            Line((64.810193891, 6.04933469), (67.227465534, 0))
            Line((67.227465534, 0), (68.363274916, -0.498379212))
            add(Edge.make_bspline(
                [(68.363274916, -0.498379212), (69.532708963, 7.730280313), (60.738469504, 20.627242961), (41.024169704, 30.636446502), (20.620918144, 33.805709868), (-5.259875882, 29.990734693), (-13.072652033, 6.858797725), (-10.268154966, -6.40085846), (-7.775524094, -9.61750499), (-6.466783991, -9.922623082), (-2.26188398, -11.569131778), (2.33580519, -11.773246089), (5.205364174, -8.263457931)],
                knots=[0, 0, 0, 0, 0.167183895, 0.308915578, 0.466622559, 0.613185698, 0.827690468, 0.89009779, 0.902058544, 0.911312027, 0.918105774, 1, 1, 1, 1], degree=3))
        make_face()
    extrude(amount=EXTRUDE_4_DEPTH)

    # 草图6 → 切除-拉伸4 (cut)
    with BuildSketch(Plane(origin=(0, 0, 0), x_dir=(1, 0, 0), z_dir=(0, 1, 0))):
        with BuildLine():
            Line((6.198074913, 30.769413247), (-15.201438159, 29.11441495))
            Line((-15.201438159, 29.11441495), (-14.174464608, -13.890102476))
            Line((-14.174464608, -13.890102476), (0, -13.551607799))
            Line((0, -13.551607799), (-1.07082991, -11.148691551))
            add(Edge.make_bspline(
                [(-1.07082991, -11.148691551), (-4.632098822, -11.372542323), (-9.743745913, -8.365778862), (-10.905982833, -2.80619952), (-12.563842534, 11.227564879), (-5.891605094, 27.30233233), (6.198074913, 30.769413247)],
                knots=[0, 0, 0, 0, 0.203093444, 0.264365632, 0.313017022, 1, 1, 1, 1], degree=3))
        make_face()
    extrude(amount=CUT_EXTRUDE_4_DEPTH, mode=Mode.SUBTRACT)

    # 草图7 → 凸台-拉伸6 (add)
    with BuildSketch(Plane(origin=(0, 3, 0), x_dir=(1, 0, 0), z_dir=(0, 1, 0))):
        with BuildLine():
            Line((67.267592809, -2.533381703), (62.796727439, -1.544387585))
            Line((62.796727439, -1.544387585), (59.283028619, 6.962462189))
            Line((59.283028619, 6.962462189), (25.589630625, 20.161737938))
            Line((25.589630625, 20.161737938), (9.982664815, 8.020864686))
            Line((9.982664815, 8.020864686), (9.982664815, 0))
            Line((9.982664815, 0), (6.138584566, -6.823705409))
            Line((6.138584566, -6.823705409), (-0.550115067, -10.360259238))
            Line((-0.550115067, -10.360259238), (-1.07082991, -11.148691551))
            add(Edge.make_bspline(
                [(-1.07082991, -11.148691551), (7.812669668, -11.919550611), (10.96181155, -2.856059757), (14.781270798, 9.242340193), (28.533124839, 15.181959499), (44.177561896, 11.550637389), (55.332290754, 5.54631354), (59.457312788, 2.134315772), (60.7283813, 0.393004228), (61.584454582, -1.828142583), (63.337302433, -3.344243945), (65.436862479, -3.898295904), (66.710060657, -3.145429133), (67.267592809, -2.533381703)],
                knots=[0, 0, 0, 0, 0.226108574, 0.31746352, 0.429095875, 0.705433638, 0.851538596, 0.872297984, 0.892425071, 0.926476328, 0.954706086, 0.970022879, 1, 1, 1, 1], degree=3))
        make_face()
    extrude(amount=-EXTRUDE_6_DEPTH)

    # 圆角20
    fillet_20_edges = [part.edges().sort_by_distance(p)[0] for p in [
        (15.414387437, 1.5, -8.020864686),
    ]]
    fillet(fillet_20_edges, radius=FILLET_20_R)

    # 圆角21
    fillet_21_edges = [part.edges().sort_by_distance(p)[0] for p in [
        (68.280862162, 1.5, -5.005189784),
    ]]
    fillet(fillet_21_edges, radius=FILLET_21_R)

    # 草图8 → 切除-拉伸5 (cut)
    with BuildSketch(Plane(origin=(0, 0, 0), x_dir=(1, 0, 0), z_dir=(0, 1, 0))):
        with Locations(Location((65, 0, 0), (0, 0, 270))):
            Circle(SKETCH_8_R)
    extrude(amount=CUT_EXTRUDE_5_DEPTH, mode=Mode.SUBTRACT)

    # 草图9 → 切除-拉伸6 (cut)
    with BuildSketch(Plane(origin=(0, 0, 0), x_dir=(1, 0, 0), z_dir=(0, 1, 0))):
        with Locations(Location((63.2, 6.5, 0), (0, 0, 270))):
            Circle(SKETCH_9_R)
        with Locations(Location((58.603805922, 11.096194078, 0), (0, 0, 270))):
            Circle(SKETCH_9_R)
        with Locations(Location((52.110193676, 15.768773665, 0), (0, 0, 270))):
            Circle(SKETCH_9_R)
    extrude(amount=CUT_EXTRUDE_6_DEPTH, mode=Mode.SUBTRACT)


solid = part.part
